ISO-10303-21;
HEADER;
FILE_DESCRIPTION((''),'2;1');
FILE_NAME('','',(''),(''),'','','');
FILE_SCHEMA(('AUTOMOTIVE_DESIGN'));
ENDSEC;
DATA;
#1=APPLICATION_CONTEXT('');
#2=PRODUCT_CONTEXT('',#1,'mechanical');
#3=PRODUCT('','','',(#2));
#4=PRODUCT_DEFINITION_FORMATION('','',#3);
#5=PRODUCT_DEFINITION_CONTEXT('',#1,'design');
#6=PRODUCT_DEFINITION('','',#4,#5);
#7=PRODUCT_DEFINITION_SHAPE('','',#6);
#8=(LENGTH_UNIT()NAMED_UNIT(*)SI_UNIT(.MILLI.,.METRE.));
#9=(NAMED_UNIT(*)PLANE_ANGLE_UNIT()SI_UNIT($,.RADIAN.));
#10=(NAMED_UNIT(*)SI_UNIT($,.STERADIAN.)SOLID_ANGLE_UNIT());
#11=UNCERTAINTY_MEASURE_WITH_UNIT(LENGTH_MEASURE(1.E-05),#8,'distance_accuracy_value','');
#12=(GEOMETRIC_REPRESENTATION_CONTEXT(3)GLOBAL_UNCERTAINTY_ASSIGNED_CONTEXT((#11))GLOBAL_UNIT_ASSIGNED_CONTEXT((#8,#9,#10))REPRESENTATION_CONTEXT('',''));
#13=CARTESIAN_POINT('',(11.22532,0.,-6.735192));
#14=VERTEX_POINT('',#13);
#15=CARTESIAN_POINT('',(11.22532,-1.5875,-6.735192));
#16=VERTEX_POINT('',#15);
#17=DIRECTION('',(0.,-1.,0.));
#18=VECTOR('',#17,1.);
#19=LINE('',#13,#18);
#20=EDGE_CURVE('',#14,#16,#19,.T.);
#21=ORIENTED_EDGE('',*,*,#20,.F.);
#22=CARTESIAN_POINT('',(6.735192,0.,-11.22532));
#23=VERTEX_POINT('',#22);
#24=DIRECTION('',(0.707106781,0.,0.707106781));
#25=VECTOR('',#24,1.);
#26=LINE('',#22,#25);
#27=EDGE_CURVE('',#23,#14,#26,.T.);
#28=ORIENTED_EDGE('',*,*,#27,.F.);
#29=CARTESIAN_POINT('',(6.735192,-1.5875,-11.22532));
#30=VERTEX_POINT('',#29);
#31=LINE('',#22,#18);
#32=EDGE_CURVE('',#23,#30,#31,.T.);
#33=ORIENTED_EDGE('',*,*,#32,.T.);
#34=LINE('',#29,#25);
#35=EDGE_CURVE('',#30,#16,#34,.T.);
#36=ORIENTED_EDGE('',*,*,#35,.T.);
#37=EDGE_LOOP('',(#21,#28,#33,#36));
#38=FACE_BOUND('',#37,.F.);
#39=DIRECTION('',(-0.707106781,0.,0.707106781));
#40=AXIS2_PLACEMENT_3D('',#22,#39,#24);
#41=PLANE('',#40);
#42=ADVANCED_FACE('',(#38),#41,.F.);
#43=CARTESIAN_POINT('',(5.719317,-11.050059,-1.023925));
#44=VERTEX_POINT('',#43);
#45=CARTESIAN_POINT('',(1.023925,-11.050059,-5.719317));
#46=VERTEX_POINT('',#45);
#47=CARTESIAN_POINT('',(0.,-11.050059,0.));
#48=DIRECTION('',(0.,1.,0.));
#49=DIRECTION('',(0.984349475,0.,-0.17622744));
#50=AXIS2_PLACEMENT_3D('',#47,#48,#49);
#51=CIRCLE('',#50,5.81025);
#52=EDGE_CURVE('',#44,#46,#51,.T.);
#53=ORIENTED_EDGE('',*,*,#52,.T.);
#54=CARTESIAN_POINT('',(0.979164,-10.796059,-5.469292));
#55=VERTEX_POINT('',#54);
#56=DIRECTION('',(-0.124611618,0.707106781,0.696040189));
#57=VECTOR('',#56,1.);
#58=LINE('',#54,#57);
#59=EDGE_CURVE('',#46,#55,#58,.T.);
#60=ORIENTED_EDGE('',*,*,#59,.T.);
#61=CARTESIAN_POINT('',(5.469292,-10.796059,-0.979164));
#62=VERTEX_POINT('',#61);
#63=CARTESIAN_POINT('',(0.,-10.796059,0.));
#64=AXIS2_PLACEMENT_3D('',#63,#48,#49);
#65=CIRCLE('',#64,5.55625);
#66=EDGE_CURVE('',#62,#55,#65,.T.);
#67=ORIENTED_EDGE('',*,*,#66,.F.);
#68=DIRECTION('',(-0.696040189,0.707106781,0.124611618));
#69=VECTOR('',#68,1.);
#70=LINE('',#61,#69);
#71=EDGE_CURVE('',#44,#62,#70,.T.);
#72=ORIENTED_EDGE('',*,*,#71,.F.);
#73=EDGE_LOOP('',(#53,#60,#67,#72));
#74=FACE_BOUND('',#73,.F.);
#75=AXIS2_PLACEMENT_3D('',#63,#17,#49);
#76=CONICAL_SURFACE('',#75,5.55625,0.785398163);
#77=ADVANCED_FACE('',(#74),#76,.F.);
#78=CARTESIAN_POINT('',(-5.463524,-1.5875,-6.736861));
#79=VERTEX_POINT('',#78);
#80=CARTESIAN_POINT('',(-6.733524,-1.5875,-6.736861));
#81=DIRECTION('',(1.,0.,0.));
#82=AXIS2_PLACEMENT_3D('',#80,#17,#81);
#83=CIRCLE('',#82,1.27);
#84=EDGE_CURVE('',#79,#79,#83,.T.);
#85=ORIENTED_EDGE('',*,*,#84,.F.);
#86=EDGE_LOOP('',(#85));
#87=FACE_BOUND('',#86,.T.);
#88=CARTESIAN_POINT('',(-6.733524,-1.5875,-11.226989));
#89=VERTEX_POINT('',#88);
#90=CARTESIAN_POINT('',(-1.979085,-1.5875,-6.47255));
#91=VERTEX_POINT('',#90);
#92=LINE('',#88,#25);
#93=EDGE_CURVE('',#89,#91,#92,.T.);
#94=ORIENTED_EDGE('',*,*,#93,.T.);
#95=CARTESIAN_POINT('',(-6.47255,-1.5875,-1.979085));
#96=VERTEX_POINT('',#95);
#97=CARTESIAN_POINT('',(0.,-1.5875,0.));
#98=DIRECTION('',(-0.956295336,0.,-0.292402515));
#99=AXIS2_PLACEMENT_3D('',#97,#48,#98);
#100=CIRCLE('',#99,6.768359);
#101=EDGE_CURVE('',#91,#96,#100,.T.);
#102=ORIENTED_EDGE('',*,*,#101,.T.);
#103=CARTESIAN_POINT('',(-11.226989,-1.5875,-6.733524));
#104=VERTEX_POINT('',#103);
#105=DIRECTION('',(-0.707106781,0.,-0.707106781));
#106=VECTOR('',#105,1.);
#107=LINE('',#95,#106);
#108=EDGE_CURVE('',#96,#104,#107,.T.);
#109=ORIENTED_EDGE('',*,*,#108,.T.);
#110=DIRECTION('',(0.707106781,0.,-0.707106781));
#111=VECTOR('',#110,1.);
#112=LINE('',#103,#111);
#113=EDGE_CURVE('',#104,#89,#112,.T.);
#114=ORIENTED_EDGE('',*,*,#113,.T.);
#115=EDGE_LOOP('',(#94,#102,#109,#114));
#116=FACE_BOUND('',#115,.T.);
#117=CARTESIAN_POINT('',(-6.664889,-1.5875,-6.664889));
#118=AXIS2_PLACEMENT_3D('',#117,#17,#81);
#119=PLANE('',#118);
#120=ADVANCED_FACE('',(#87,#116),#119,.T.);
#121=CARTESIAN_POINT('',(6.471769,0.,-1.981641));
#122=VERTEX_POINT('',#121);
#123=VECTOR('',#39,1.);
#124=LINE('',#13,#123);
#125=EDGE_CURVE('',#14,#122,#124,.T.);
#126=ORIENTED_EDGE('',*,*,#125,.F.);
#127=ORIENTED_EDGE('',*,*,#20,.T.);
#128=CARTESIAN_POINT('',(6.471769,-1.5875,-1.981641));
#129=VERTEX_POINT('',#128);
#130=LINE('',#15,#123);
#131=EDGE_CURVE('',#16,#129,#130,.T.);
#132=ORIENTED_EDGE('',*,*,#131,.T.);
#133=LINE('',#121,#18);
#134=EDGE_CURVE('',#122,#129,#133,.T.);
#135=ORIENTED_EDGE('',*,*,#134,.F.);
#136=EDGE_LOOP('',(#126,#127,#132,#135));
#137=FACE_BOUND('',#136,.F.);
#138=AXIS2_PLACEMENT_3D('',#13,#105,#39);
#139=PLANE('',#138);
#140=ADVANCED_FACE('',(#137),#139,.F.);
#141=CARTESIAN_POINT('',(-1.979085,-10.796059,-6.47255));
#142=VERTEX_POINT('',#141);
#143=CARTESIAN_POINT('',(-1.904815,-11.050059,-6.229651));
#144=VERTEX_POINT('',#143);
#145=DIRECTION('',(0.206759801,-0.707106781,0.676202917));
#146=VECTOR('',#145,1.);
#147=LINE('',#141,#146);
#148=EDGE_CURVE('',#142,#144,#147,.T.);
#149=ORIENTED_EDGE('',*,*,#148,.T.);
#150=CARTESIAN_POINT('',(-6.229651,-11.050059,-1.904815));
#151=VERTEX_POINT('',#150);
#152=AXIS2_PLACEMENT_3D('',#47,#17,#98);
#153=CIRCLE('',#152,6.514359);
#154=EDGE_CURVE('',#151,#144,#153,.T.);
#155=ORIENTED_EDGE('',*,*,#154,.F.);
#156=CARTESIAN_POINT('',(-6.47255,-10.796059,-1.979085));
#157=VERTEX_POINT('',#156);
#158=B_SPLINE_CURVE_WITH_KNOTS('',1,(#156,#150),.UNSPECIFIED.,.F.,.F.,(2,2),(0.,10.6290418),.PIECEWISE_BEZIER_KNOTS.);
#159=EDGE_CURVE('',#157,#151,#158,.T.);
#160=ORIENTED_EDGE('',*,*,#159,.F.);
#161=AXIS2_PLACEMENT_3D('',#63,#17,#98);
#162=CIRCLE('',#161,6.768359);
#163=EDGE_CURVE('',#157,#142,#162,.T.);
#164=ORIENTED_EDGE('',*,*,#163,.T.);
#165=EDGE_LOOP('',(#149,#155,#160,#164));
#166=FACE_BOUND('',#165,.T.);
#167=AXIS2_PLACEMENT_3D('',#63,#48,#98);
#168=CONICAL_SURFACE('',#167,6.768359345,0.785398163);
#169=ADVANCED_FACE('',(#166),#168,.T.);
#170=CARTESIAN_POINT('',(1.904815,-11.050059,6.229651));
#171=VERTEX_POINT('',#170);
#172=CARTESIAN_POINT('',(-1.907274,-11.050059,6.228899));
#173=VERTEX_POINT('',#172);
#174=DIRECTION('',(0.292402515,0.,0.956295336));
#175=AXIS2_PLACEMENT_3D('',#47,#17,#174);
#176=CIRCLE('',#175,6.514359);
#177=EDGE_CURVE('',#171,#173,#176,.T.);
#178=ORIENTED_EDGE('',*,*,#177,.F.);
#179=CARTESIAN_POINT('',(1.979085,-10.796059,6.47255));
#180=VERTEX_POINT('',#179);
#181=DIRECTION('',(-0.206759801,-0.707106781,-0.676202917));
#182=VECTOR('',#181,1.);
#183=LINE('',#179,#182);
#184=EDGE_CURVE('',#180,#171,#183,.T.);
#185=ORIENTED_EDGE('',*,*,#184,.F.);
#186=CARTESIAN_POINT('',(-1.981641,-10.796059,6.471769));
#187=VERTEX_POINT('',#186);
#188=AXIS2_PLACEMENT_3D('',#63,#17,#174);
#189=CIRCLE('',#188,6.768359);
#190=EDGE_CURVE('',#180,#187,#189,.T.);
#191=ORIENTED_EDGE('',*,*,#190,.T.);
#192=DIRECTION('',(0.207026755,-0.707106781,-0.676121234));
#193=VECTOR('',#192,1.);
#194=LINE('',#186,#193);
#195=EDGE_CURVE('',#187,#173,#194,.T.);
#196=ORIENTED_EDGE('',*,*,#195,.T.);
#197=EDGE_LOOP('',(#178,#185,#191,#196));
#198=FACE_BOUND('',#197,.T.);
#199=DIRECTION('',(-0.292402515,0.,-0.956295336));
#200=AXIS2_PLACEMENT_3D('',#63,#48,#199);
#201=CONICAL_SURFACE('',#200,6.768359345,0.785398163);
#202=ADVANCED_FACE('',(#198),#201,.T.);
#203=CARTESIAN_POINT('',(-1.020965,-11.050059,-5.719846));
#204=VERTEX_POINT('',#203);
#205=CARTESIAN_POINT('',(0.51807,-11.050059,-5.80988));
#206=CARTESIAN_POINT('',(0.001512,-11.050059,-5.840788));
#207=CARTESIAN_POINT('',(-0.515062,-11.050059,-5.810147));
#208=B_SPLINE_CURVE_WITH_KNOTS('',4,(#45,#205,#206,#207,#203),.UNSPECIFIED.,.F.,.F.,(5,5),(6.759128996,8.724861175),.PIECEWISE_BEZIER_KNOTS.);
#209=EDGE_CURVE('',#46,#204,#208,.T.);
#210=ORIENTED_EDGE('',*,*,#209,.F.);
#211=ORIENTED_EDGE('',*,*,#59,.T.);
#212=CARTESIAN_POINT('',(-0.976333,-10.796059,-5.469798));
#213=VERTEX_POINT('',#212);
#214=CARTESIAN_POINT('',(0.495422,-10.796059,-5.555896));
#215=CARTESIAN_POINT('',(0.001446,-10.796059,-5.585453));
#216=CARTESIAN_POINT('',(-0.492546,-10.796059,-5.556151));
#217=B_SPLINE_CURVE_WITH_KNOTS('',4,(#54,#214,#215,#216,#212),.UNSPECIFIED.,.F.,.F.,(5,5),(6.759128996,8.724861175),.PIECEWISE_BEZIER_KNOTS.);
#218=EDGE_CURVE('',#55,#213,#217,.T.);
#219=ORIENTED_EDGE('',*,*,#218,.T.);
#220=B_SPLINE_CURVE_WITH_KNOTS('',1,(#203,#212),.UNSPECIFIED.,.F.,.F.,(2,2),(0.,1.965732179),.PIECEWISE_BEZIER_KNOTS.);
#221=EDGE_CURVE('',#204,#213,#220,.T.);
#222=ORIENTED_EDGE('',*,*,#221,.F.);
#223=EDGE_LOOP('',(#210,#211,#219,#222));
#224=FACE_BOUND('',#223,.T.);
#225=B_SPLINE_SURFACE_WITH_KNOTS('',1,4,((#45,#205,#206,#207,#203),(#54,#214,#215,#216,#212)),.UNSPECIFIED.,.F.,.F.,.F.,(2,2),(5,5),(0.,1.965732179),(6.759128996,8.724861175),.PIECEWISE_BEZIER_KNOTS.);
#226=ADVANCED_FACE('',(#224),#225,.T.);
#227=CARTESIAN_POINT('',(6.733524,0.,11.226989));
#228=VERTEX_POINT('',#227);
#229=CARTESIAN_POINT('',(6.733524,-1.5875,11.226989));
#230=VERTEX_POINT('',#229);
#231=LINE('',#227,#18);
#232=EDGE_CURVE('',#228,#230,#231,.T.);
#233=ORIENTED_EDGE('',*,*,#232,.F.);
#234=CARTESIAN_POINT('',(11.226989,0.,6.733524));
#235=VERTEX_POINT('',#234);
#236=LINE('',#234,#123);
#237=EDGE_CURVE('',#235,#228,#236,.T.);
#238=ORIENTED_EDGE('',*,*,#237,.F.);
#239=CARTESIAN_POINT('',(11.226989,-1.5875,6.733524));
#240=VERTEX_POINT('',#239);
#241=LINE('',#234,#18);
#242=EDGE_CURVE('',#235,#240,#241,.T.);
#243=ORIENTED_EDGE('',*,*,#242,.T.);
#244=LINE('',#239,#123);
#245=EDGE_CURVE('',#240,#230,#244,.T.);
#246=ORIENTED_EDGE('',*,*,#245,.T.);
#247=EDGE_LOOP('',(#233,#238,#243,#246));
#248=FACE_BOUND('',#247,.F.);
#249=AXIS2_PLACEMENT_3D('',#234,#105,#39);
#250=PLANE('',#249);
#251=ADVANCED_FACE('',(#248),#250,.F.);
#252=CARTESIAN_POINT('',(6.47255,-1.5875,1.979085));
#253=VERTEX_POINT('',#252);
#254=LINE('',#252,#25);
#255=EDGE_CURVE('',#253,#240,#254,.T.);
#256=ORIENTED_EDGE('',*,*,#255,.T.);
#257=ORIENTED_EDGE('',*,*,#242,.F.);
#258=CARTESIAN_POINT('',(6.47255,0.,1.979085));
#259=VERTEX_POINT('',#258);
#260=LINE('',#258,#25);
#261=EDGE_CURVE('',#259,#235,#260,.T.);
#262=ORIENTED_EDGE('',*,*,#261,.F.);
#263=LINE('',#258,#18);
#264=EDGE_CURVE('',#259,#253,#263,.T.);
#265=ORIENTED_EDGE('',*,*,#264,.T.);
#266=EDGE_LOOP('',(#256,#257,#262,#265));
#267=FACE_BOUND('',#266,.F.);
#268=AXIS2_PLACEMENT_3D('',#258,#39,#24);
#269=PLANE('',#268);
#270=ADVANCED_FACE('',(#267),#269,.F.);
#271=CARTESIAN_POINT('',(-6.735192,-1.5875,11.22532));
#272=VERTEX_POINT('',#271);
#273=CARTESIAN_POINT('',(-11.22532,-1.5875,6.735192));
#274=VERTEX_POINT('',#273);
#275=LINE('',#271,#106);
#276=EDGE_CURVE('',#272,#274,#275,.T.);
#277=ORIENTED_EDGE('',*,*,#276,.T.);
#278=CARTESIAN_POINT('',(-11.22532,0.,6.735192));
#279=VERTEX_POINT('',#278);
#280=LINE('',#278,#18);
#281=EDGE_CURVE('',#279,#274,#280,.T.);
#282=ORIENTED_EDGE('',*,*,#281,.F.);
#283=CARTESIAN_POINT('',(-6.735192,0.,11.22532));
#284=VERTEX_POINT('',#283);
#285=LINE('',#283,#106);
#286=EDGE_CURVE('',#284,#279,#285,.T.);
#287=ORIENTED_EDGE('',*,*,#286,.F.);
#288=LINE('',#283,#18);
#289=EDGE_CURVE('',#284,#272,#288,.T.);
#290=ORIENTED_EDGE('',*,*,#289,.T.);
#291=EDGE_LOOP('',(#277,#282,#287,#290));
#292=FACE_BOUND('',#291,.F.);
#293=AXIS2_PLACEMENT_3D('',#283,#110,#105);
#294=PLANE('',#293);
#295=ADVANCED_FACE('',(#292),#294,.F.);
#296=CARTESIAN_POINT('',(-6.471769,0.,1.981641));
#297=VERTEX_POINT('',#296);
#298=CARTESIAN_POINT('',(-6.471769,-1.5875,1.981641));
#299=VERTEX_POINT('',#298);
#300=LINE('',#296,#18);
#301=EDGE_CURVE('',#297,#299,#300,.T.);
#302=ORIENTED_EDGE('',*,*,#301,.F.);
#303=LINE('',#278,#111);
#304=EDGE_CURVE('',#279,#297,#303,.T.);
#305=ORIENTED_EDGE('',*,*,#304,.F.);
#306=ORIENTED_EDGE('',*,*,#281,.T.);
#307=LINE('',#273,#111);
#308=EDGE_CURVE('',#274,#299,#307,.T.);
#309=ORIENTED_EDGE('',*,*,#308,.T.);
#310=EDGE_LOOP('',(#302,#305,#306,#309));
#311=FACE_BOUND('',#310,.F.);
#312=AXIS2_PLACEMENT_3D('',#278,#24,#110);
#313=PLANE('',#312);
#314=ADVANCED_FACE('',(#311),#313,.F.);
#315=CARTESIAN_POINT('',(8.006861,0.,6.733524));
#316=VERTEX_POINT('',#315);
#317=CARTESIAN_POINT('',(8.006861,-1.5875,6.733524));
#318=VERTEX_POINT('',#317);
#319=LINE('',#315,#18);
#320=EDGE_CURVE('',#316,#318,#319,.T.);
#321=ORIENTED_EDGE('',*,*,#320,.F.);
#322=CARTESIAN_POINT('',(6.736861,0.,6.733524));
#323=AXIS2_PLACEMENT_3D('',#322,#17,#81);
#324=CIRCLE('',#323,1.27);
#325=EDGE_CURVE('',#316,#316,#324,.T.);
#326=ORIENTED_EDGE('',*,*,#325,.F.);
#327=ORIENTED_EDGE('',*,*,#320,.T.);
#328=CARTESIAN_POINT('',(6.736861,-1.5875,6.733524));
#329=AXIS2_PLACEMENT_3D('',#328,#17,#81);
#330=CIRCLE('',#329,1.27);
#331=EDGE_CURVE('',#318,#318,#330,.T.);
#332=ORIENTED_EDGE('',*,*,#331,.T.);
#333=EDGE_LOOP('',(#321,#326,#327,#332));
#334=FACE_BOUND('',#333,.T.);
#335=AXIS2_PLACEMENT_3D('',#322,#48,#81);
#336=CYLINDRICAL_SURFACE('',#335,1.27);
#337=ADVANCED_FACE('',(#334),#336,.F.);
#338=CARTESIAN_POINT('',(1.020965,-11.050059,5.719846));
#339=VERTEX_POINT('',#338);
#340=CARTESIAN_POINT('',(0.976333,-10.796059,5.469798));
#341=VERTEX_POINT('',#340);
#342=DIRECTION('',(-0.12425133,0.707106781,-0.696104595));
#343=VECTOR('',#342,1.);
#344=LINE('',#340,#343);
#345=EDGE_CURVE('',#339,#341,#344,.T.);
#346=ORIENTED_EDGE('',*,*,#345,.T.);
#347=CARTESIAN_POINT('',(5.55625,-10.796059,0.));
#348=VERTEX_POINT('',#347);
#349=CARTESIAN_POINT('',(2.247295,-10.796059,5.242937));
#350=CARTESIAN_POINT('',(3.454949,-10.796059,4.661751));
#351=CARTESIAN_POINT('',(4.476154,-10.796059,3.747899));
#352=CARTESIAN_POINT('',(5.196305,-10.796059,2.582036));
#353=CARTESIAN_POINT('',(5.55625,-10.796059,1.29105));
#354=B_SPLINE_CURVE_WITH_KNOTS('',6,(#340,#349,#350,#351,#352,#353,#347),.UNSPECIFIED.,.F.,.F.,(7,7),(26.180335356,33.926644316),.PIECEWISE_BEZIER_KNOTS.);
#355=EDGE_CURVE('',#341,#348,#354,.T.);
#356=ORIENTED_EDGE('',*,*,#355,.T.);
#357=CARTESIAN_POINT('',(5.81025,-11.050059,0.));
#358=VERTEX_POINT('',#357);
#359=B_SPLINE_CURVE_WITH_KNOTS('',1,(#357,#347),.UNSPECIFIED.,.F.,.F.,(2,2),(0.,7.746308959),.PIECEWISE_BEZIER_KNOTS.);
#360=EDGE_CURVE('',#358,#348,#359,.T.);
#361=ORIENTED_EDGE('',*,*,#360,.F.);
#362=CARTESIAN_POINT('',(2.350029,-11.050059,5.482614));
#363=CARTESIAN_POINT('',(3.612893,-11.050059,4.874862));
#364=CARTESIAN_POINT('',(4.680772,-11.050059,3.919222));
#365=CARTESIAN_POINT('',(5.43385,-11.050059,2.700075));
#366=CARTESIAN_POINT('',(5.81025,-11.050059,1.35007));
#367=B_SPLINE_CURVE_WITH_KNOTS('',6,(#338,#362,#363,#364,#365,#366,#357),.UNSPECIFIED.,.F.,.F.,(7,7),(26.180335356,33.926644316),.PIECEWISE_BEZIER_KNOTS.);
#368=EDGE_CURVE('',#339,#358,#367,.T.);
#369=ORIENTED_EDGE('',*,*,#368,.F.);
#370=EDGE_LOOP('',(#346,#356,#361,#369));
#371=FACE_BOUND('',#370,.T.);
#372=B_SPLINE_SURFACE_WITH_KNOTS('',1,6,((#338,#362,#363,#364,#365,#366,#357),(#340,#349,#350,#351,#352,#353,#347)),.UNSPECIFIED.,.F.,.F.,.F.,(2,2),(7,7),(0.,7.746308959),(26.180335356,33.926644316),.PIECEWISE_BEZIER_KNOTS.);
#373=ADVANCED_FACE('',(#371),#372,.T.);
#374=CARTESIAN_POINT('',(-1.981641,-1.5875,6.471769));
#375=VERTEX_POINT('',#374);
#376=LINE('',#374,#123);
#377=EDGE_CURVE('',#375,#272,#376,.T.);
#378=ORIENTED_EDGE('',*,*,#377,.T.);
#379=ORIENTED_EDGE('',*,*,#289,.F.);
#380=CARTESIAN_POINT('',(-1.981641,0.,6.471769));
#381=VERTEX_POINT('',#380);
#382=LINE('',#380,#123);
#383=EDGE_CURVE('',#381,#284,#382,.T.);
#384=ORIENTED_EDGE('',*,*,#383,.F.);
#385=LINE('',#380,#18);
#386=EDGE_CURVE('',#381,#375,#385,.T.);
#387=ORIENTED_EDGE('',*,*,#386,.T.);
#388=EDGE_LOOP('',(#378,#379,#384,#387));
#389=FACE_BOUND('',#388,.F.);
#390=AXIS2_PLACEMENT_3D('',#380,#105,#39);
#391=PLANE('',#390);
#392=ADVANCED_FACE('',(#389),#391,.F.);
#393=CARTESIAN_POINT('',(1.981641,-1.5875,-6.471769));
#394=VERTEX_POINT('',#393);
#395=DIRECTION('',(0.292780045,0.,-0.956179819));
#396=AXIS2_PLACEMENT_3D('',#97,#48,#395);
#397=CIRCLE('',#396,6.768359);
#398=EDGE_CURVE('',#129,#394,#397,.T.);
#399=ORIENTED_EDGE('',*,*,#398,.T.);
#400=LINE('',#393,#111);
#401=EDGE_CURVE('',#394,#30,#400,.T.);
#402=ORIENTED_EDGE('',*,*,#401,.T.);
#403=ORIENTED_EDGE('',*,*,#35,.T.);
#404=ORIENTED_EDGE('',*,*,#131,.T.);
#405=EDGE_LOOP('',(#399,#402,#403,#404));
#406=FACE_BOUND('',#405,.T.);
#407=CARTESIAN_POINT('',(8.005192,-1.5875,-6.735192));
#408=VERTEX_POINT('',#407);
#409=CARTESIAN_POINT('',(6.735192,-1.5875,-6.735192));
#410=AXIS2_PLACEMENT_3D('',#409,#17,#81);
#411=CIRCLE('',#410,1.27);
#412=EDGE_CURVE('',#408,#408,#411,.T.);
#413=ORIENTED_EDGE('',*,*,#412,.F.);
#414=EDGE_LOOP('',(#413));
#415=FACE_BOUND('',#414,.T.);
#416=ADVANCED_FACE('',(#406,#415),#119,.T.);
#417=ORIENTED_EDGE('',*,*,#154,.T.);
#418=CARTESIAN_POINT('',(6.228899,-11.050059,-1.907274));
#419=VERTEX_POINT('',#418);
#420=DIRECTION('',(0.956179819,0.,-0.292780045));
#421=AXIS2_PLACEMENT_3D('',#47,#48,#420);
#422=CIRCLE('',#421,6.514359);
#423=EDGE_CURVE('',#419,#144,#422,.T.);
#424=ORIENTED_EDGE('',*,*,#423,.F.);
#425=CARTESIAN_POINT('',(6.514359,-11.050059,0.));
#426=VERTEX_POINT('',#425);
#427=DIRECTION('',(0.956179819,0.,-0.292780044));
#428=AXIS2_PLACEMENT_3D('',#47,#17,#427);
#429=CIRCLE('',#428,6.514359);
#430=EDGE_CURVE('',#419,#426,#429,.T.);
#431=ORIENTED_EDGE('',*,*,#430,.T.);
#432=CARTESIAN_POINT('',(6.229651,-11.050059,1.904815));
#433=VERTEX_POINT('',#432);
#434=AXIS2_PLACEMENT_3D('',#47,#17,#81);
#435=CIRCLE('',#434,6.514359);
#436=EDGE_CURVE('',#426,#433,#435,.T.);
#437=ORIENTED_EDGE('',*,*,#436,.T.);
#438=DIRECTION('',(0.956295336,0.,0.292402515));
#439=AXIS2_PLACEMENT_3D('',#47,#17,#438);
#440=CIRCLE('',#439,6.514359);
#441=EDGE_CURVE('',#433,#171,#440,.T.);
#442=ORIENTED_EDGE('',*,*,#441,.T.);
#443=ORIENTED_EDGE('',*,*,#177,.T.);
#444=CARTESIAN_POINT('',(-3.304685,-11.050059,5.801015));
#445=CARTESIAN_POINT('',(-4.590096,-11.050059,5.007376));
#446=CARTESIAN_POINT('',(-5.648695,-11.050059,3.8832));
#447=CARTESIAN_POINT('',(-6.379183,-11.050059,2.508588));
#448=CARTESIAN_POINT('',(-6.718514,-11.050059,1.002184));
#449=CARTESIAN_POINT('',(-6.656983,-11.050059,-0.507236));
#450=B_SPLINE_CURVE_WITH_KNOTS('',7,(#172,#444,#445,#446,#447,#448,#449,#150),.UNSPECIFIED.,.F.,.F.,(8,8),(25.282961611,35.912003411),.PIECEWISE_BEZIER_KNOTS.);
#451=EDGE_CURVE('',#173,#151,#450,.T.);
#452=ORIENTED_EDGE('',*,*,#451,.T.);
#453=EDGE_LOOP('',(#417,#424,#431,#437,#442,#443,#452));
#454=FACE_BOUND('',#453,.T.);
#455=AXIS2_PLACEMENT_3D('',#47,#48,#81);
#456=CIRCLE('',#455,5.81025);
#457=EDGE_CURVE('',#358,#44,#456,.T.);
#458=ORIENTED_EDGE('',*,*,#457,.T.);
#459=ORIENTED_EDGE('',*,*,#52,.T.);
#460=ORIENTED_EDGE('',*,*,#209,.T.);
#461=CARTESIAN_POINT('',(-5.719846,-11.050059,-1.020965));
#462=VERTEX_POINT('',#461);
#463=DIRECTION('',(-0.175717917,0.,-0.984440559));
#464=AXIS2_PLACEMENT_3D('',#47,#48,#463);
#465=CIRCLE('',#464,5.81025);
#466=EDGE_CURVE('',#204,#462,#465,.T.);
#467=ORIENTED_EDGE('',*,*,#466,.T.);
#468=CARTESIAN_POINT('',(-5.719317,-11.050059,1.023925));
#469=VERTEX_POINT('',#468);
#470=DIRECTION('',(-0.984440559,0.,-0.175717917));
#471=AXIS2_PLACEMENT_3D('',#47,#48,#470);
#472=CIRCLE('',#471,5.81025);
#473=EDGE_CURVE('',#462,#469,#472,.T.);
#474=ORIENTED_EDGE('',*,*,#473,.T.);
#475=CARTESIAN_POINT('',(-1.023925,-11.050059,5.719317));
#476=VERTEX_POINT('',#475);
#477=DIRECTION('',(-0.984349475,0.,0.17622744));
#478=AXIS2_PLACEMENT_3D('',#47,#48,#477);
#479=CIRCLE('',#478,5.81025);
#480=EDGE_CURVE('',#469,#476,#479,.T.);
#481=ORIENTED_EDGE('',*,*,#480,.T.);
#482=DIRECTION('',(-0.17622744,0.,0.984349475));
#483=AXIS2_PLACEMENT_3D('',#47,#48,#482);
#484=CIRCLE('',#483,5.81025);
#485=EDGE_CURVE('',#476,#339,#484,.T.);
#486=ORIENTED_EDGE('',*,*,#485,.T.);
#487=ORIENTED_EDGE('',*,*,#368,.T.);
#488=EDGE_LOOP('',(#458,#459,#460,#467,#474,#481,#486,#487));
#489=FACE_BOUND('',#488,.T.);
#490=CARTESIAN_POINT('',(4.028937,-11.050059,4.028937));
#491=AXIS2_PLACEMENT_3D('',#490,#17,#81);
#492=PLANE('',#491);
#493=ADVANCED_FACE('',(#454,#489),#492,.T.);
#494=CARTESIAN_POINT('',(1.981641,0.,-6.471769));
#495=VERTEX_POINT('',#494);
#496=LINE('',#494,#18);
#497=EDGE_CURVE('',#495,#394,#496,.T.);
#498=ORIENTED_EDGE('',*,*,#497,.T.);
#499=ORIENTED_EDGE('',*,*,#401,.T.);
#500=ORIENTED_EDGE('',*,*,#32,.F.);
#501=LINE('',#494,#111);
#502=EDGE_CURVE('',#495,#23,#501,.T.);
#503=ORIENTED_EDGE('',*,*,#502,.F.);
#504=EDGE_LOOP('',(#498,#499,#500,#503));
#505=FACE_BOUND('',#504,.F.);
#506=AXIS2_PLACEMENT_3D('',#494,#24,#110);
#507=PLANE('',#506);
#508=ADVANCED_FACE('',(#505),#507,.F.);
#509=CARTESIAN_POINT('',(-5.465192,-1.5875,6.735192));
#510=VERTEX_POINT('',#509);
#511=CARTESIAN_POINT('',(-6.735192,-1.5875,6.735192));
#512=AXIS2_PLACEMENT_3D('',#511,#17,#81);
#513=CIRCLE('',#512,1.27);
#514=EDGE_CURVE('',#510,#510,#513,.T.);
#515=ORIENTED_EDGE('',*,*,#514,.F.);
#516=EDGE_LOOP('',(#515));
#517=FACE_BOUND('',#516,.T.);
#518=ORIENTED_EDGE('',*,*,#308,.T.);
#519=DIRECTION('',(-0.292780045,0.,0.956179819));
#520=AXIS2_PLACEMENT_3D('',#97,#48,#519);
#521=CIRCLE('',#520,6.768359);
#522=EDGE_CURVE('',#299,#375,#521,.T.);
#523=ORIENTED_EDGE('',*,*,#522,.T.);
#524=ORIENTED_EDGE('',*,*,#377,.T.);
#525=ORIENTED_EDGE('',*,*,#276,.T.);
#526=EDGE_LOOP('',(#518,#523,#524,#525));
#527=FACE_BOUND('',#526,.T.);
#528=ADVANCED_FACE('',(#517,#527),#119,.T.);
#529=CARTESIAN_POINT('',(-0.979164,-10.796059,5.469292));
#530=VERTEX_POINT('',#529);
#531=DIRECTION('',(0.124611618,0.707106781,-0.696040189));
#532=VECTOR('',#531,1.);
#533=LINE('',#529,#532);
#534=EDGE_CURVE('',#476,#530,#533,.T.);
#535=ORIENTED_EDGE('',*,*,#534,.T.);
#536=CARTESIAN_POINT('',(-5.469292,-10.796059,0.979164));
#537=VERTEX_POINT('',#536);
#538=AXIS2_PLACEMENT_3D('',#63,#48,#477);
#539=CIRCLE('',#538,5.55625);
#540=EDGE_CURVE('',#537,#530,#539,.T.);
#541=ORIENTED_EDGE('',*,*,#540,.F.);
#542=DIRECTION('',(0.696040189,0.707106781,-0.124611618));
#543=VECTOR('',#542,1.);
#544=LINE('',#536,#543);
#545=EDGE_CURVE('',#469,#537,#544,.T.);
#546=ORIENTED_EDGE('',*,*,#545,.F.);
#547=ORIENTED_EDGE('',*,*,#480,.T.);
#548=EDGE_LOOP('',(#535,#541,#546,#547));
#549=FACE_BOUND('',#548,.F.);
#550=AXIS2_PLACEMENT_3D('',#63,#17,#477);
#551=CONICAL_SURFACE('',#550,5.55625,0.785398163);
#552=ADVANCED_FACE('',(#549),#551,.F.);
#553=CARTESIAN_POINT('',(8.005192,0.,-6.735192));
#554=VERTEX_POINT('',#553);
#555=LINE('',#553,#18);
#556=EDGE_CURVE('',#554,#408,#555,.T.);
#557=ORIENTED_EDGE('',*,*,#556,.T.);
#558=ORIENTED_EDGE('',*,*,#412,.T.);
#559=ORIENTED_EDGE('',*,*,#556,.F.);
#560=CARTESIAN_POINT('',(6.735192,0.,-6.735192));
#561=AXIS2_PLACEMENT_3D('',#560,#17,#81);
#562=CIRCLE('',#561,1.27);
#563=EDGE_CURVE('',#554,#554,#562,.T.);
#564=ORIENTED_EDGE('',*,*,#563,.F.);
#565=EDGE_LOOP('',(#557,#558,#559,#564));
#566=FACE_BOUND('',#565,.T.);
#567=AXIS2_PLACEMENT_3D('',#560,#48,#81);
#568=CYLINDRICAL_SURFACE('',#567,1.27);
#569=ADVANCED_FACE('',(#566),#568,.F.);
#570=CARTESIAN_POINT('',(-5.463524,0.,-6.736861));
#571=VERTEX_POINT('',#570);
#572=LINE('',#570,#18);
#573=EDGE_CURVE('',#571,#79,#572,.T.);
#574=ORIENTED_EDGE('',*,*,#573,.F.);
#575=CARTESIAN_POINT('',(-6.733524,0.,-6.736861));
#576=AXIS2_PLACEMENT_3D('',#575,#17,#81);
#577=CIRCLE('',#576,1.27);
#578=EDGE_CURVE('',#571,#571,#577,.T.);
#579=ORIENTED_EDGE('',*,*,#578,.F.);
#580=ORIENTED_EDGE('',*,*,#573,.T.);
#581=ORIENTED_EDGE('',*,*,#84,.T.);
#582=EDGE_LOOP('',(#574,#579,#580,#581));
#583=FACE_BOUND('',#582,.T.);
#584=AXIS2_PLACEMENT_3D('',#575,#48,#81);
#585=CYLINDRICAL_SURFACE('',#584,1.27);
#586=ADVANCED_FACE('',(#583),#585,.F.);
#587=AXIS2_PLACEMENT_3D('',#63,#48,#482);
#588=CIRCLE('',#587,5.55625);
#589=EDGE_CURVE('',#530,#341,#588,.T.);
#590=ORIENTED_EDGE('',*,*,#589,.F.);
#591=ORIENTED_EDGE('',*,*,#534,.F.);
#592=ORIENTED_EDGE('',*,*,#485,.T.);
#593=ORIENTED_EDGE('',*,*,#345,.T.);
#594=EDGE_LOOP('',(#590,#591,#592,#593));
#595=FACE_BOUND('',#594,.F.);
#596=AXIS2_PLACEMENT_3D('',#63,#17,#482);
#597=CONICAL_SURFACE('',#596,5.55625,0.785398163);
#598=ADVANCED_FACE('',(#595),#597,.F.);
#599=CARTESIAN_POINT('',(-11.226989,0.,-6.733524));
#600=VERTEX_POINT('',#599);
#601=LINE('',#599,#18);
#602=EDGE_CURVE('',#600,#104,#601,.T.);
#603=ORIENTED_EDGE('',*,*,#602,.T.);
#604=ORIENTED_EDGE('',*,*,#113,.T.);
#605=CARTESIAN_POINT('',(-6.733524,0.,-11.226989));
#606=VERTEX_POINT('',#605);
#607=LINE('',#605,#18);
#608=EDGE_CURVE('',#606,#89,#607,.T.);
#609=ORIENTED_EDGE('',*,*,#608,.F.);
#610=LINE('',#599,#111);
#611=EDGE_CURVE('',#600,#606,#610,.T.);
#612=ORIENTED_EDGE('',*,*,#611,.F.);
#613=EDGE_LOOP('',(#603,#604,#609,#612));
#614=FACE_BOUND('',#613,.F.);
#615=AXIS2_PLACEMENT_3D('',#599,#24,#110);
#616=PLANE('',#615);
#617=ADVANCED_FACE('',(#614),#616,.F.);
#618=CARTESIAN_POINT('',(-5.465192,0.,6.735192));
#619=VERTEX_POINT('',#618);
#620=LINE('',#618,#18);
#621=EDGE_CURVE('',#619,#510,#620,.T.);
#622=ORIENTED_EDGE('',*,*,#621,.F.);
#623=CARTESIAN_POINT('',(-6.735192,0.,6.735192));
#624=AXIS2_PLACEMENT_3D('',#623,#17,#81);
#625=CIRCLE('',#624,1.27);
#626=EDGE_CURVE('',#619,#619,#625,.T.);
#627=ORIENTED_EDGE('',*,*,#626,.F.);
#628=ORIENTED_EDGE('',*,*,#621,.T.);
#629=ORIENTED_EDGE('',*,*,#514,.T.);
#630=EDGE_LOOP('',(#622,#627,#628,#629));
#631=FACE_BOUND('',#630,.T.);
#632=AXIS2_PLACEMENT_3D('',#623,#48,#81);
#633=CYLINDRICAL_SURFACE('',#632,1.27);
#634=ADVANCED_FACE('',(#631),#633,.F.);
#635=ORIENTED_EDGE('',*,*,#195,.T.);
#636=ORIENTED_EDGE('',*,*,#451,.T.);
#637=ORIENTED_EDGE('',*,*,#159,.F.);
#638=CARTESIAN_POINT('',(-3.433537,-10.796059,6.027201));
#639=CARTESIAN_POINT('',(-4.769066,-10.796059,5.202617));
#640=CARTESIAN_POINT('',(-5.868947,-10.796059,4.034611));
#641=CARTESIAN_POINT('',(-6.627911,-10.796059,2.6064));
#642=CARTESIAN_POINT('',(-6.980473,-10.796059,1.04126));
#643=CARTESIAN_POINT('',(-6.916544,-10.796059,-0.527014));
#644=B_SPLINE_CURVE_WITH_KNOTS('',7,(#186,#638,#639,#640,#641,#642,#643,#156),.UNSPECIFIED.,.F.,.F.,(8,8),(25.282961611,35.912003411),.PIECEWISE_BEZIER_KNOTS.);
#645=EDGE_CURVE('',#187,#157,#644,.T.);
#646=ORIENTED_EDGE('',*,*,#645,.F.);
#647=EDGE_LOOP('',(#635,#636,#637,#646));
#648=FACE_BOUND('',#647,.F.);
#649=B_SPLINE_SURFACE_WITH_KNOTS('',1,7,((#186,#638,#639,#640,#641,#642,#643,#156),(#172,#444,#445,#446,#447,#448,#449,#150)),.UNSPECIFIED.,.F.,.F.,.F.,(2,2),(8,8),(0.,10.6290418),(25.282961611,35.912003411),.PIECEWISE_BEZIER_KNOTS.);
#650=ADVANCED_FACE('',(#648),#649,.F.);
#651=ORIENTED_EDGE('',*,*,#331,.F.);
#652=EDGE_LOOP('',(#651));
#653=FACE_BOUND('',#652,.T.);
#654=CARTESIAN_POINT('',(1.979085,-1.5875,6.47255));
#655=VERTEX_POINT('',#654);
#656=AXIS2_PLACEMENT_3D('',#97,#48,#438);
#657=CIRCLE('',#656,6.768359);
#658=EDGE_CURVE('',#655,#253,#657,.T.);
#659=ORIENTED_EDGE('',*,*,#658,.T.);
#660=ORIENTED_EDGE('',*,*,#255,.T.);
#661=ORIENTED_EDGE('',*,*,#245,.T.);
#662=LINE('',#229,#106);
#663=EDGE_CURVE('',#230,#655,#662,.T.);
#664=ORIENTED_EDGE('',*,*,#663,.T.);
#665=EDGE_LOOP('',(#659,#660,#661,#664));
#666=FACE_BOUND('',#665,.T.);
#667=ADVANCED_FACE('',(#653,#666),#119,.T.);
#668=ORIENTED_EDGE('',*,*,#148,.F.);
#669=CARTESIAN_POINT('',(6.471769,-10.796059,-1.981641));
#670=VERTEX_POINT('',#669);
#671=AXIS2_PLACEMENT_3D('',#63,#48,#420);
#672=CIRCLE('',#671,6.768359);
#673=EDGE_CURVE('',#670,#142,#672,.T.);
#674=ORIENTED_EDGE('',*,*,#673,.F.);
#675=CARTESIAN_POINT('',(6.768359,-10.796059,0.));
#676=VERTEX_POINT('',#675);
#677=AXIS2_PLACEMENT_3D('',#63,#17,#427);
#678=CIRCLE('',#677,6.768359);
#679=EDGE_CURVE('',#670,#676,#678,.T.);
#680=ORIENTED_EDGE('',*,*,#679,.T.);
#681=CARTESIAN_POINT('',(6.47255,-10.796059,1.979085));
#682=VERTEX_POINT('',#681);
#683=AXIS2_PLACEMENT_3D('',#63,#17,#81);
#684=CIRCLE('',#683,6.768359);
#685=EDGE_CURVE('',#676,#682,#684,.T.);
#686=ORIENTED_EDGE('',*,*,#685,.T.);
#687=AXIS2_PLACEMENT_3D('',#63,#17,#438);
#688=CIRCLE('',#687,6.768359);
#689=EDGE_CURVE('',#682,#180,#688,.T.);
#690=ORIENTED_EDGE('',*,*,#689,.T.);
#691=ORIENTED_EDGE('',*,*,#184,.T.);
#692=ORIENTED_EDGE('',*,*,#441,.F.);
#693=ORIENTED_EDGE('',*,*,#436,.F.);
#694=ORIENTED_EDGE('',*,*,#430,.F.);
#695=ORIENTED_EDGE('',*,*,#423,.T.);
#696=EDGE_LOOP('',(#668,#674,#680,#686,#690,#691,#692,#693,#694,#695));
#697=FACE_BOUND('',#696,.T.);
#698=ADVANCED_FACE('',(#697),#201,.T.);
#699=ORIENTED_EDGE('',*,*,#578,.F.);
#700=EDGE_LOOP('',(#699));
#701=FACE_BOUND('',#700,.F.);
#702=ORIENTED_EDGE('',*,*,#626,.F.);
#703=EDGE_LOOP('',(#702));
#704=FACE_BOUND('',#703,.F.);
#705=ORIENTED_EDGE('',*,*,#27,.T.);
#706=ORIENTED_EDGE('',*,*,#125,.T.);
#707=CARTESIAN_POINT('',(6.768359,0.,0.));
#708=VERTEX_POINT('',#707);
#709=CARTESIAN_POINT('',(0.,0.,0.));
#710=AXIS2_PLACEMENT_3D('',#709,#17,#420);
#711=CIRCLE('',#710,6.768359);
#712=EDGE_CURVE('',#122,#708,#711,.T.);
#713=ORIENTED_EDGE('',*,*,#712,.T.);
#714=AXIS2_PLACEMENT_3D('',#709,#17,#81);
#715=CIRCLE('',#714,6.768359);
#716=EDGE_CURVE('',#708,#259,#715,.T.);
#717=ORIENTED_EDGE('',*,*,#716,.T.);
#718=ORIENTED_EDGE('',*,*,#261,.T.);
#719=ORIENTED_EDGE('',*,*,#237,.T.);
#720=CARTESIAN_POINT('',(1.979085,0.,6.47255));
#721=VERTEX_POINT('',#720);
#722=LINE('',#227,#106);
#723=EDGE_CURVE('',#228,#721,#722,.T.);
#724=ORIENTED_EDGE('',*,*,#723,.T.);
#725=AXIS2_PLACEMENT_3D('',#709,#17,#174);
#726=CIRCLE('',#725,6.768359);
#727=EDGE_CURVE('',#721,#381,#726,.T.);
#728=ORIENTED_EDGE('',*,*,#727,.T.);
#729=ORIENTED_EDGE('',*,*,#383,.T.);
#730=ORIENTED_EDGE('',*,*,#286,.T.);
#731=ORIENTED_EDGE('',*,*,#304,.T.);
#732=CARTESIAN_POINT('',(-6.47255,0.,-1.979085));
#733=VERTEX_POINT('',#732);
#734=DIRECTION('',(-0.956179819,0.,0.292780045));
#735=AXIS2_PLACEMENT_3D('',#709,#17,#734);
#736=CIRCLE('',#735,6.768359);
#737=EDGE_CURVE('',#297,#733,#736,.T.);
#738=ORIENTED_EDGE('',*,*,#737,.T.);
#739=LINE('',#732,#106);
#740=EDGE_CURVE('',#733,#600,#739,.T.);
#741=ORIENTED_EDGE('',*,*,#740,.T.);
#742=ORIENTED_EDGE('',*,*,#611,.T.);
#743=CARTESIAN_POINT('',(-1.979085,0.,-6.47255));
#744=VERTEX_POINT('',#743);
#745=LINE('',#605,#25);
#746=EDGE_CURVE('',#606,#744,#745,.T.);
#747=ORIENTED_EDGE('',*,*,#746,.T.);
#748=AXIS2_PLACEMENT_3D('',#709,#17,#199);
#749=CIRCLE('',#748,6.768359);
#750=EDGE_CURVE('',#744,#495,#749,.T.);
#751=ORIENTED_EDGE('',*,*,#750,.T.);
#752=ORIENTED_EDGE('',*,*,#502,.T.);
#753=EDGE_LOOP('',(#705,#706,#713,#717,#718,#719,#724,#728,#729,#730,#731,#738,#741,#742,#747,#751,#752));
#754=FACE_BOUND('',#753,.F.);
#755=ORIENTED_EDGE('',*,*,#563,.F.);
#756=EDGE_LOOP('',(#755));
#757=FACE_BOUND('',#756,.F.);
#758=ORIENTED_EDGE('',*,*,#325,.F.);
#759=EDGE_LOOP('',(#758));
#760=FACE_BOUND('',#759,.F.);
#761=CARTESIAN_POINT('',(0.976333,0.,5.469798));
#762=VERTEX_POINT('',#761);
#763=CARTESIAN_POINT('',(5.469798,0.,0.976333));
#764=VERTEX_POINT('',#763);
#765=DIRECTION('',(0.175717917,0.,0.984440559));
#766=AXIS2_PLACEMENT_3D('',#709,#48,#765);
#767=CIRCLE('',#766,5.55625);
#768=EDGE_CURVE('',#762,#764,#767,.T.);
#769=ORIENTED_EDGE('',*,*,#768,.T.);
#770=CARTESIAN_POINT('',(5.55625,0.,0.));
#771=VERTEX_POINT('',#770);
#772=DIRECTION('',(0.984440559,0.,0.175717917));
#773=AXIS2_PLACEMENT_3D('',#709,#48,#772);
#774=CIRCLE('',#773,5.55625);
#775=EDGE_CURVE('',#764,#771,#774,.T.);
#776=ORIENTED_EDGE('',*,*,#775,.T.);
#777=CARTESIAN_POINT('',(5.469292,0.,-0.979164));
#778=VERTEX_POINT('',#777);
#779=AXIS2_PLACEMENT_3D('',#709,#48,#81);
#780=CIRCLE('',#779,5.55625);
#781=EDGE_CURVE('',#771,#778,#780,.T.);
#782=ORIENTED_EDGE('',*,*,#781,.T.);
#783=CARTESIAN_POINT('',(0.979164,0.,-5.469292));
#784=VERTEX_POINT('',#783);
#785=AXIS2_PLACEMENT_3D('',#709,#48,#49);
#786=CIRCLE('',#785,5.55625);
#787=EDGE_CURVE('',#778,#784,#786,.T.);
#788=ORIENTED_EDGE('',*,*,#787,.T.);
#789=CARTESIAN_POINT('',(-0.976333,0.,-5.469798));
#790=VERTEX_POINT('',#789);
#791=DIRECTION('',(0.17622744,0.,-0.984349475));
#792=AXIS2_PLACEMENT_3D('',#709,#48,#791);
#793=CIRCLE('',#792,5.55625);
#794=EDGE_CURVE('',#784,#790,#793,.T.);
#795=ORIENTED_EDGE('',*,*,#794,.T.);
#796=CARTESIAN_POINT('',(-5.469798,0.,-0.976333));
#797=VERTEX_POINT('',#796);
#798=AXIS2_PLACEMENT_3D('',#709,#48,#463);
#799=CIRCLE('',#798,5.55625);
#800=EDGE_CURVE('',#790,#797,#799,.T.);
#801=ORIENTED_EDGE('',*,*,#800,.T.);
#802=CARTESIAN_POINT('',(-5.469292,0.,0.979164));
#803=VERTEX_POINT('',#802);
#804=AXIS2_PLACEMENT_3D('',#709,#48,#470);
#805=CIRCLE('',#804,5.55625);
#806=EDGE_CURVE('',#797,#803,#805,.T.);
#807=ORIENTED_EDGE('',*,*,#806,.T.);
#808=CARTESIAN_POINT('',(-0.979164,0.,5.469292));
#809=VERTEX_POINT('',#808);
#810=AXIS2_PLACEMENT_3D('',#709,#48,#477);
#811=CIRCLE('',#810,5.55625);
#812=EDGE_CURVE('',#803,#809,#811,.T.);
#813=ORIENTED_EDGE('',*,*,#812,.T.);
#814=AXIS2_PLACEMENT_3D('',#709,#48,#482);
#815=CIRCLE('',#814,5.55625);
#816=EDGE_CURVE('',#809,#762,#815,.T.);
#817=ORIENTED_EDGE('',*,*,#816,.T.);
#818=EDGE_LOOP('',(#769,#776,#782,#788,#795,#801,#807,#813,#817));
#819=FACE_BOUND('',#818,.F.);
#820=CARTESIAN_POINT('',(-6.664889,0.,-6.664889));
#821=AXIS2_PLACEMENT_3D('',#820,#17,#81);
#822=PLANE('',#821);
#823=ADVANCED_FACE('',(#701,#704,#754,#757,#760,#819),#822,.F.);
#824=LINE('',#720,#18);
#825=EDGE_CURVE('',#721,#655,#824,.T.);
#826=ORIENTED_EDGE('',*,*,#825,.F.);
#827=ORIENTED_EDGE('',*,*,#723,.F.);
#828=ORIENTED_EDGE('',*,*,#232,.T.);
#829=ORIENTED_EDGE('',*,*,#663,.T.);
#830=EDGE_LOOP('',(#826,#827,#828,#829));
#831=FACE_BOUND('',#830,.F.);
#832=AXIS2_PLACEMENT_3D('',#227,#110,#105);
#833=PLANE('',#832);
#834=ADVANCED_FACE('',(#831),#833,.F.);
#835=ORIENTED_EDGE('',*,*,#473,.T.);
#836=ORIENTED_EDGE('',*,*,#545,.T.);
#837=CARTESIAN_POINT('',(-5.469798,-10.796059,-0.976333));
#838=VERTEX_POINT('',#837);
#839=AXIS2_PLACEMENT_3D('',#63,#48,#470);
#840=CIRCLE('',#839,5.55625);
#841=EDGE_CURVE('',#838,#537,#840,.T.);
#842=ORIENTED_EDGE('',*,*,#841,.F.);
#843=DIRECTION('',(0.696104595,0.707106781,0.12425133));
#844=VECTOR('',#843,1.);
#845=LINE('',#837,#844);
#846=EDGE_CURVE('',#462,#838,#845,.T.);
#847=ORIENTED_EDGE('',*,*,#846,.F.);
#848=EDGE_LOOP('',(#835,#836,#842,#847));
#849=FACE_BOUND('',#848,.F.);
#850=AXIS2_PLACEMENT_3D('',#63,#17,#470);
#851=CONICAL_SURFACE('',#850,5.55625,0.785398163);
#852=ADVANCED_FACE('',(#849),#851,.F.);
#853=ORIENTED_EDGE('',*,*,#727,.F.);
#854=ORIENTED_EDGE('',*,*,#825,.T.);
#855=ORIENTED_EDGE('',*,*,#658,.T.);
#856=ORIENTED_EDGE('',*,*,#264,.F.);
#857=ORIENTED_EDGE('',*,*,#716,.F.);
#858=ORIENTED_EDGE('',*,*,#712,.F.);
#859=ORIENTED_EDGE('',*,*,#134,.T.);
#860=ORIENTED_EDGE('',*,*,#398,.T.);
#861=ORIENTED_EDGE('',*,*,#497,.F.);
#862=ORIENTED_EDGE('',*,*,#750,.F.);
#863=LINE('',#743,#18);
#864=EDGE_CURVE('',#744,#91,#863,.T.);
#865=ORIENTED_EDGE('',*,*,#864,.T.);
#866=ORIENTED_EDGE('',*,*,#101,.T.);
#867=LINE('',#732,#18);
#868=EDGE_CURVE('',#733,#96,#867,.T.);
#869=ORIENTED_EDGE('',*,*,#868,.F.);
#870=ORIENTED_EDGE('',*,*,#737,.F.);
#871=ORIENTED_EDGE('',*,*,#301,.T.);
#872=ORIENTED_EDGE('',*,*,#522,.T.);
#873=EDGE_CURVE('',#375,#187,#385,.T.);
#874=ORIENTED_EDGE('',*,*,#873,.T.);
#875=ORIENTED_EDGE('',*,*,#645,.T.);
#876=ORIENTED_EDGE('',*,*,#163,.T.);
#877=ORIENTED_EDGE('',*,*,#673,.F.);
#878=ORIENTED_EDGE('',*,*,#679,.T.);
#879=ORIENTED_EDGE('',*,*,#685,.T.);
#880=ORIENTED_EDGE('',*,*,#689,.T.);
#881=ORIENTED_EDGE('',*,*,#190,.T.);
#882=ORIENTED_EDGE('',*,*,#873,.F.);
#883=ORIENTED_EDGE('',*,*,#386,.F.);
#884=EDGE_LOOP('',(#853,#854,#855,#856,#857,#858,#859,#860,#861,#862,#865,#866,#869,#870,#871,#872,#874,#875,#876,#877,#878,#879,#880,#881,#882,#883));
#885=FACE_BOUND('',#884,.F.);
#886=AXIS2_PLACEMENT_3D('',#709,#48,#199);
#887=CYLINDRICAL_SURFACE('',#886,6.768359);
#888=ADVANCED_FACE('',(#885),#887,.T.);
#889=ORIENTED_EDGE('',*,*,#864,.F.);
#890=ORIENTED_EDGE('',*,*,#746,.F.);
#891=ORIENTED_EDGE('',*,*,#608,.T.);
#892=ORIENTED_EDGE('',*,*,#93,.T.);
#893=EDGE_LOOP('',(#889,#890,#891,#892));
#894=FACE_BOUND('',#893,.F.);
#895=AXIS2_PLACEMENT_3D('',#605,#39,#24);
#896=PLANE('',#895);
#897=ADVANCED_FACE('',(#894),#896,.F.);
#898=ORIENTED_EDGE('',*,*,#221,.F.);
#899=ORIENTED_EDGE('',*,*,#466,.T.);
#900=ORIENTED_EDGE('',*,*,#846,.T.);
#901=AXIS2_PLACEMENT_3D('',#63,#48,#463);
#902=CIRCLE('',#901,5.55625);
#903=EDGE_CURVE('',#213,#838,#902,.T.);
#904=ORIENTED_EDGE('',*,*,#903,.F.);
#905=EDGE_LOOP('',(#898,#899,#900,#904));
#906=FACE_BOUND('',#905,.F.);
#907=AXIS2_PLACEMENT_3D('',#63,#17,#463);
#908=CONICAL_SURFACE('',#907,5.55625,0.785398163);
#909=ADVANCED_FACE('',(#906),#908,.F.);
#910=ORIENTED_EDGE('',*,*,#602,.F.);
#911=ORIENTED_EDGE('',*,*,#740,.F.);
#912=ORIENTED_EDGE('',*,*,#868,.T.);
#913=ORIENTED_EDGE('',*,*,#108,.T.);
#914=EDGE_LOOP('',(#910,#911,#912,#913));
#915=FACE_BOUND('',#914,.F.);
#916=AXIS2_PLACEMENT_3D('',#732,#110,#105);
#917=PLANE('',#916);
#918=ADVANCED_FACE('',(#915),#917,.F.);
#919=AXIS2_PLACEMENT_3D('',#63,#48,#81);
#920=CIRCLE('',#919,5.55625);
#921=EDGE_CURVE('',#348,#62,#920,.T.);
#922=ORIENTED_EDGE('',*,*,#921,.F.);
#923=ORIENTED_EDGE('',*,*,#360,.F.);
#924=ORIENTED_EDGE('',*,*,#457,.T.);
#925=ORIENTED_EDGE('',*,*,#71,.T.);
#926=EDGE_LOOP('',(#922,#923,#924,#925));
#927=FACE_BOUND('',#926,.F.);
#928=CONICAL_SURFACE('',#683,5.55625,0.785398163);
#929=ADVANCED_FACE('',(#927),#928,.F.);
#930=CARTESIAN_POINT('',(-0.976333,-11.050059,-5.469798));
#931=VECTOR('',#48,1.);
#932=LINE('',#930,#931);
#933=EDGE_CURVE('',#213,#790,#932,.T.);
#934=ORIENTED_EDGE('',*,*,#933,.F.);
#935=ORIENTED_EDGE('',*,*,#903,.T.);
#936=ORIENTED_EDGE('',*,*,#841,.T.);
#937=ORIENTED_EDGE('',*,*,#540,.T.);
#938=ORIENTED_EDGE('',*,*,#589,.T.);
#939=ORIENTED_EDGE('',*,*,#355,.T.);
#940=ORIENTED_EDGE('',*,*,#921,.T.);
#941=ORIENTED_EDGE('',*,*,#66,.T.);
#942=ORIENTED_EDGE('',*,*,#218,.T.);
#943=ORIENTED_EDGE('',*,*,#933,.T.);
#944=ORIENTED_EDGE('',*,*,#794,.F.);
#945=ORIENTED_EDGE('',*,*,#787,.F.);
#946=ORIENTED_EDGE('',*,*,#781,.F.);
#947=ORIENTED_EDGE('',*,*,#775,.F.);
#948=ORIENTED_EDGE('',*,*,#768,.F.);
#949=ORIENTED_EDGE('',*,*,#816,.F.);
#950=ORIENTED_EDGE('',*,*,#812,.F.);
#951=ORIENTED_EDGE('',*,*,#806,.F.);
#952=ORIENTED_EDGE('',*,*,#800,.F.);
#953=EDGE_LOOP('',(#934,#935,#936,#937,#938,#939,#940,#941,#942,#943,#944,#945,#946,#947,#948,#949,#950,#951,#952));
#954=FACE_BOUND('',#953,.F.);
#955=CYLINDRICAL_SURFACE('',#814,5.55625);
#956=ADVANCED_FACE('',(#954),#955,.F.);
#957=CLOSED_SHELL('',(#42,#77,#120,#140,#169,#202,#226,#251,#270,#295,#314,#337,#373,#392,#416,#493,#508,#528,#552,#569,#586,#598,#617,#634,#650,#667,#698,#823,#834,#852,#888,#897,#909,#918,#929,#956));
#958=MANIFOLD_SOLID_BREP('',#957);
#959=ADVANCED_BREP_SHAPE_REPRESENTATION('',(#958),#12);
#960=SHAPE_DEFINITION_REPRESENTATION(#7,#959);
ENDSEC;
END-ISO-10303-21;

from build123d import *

# Parameters (mm, degrees)
F0_R     = 1.27
F1_DEPTH = 1.5875
F2_DEPTH = 11.0500585288
F3_SIZE  = 0.254


with BuildPart() as f1:
    # F0 (on Front) → F1 (new body)
    with BuildSketch(Plane.XZ):
        with BuildLine():
            Line((-6.7335235308, -11.2269887114), (-1.9790852934, -6.4725504739))
            ThreePointArc((-1.9790852934, -6.4725504739), (-4.785952791, -4.785952791), (-6.4725504739, -1.9790852934))
            Line((-6.4725504739, -1.9790852934), (-11.2269887114, -6.7335235308))
            Line((-11.2269887114, -6.7335235308), (-6.7335235308, -11.2269887114))
        make_face()
        with Locations((-6.7335235308, -6.7368606508)):
            Circle(F0_R, mode=Mode.SUBTRACT)
        with BuildLine():
            Line((6.7351920908, -11.2253201513), (11.2253201513, -6.7351920908))
            Line((11.2253201513, -6.7351920908), (6.4717686116, -1.9816405511))
            ThreePointArc((6.4717686116, -1.9816405511), (4.785952791, -4.785952791), (1.9816405511, -6.4717686116))
            Line((1.9816405511, -6.4717686116), (6.7351920908, -11.2253201513))
        make_face()
        with Locations((6.7351920908, -6.7351920908)):
            Circle(F0_R, mode=Mode.SUBTRACT)
        with BuildLine():
            Line((-11.2253201513, 6.7351920908), (-6.4717686116, 1.9816405511))
            ThreePointArc((-6.4717686116, 1.9816405511), (-4.785952791, 4.785952791), (-1.9816405511, 6.4717686116))
            Line((-1.9816405511, 6.4717686116), (-6.7351920908, 11.2253201513))
            Line((-6.7351920908, 11.2253201513), (-11.2253201513, 6.7351920908))
        make_face()
        with Locations((-6.7351920908, 6.7351920908)):
            Circle(F0_R, mode=Mode.SUBTRACT)
        with BuildLine():
            ThreePointArc((1.9790852934, 6.4725504739), (4.785952791, 4.785952791), (6.4725504739, 1.9790852934))
            Line((6.4725504739, 1.9790852934), (11.2269887114, 6.7335235308))
            Line((11.2269887114, 6.7335235308), (6.7335235308, 11.2269887114))
            Line((6.7335235308, 11.2269887114), (1.9790852934, 6.4725504739))
        make_face()
        with Locations((6.7368606508, 6.7335235308)):
            Circle(F0_R, mode=Mode.SUBTRACT)
        with BuildLine():
            ThreePointArc((-1.9790852934, -6.4725504739), (0.0013360998, -6.7683592141), (1.9816405511, -6.4717686116))
            Line((1.9816405511, -6.4717686116), (0.9791637116, -5.4692917721))
            ThreePointArc((0.9791637116, -5.4692917721), (0.001437958, -5.5562498139), (-0.9763326742, -5.4697978547))
            Line((-0.9763326742, -5.4697978547), (-1.9790852934, -6.4725504739))
        make_face()
        with BuildLine():
            ThreePointArc((1.9816405511, -6.4717686116), (4.785952791, -4.785952791), (6.4717686116, -1.9816405511))
            Line((6.4717686116, -1.9816405511), (5.4692917721, -0.9791637116))
            ThreePointArc((5.4692917721, -0.9791637116), (3.928862053, -3.928862053), (0.9791637116, -5.4692917721))
            Line((0.9791637116, -5.4692917721), (1.9816405511, -6.4717686116))
        make_face()
        with BuildLine():
            ThreePointArc((-6.4725504739, -1.9790852934), (-4.785952791, -4.785952791), (-1.9790852934, -6.4725504739))
            Line((-1.9790852934, -6.4725504739), (-0.9763326742, -5.4697978547))
            ThreePointArc((-0.9763326742, -5.4697978547), (-3.928862053, -3.928862053), (-5.4697978547, -0.9763326742))
            Line((-5.4697978547, -0.9763326742), (-6.4725504739, -1.9790852934))
        make_face()
        with BuildLine():
            Line((5.4692917721, -0.9791637116), (6.4717686116, -1.9816405511))
            ThreePointArc((6.4717686116, -1.9816405511), (6.6938010055, -1.001856444), (6.7683593459, 0))
            ThreePointArc((6.7683593459, 0), (6.6939986454, 1.0005350428), (6.4725504739, 1.9790852934))
            Line((6.4725504739, 1.9790852934), (5.4697978547, 0.9763326742))
            ThreePointArc((5.4697978547, 0.9763326742), (5.5345947635, 0.4900763879), (5.55625, 0))
            ThreePointArc((5.55625, 0), (5.5344677464, -0.4915087251), (5.4692917721, -0.9791637116))
        make_face()
        with BuildLine():
            Line((5.4697978547, 0.9763326742), (6.4725504739, 1.9790852934))
            ThreePointArc((6.4725504739, 1.9790852934), (4.785952791, 4.785952791), (1.9790852934, 6.4725504739))
            Line((1.9790852934, 6.4725504739), (0.9763326742, 5.4697978547))
            ThreePointArc((0.9763326742, 5.4697978547), (3.928862053, 3.928862053), (5.4697978547, 0.9763326742))
        make_face()
        with BuildLine():
            Line((0.9763326742, 5.4697978547), (1.9790852934, 6.4725504739))
            ThreePointArc((1.9790852934, 6.4725504739), (-0.0013360998, 6.7683592141), (-1.9816405511, 6.4717686116))
            Line((-1.9816405511, 6.4717686116), (-0.9791637116, 5.4692917721))
            ThreePointArc((-0.9791637116, 5.4692917721), (-0.001437958, 5.5562498139), (0.9763326742, 5.4697978547))
        make_face()
        with BuildLine():
            ThreePointArc((-6.4717686116, 1.9816405511), (-6.7683592141, 0.0013360998), (-6.4725504739, -1.9790852934))
            Line((-6.4725504739, -1.9790852934), (-5.4697978547, -0.9763326742))
            ThreePointArc((-5.4697978547, -0.9763326742), (-5.5562498139, 0.001437958), (-5.4692917721, 0.9791637116))
            Line((-5.4692917721, 0.9791637116), (-6.4717686116, 1.9816405511))
        make_face()
        with BuildLine():
            ThreePointArc((-5.4692917721, 0.9791637116), (-3.928862053, 3.928862053), (-0.9791637116, 5.4692917721))
            Line((-0.9791637116, 5.4692917721), (-1.9816405511, 6.4717686116))
            ThreePointArc((-1.9816405511, 6.4717686116), (-4.785952791, 4.785952791), (-6.4717686116, 1.9816405511))
            Line((-6.4717686116, 1.9816405511), (-5.4692917721, 0.9791637116))
        make_face()
    extrude(amount=F1_DEPTH)

    # F0 (on Front) → F2 (join)
    with BuildSketch(Plane.XZ):
        with BuildLine():
            Line((5.4697978547, 0.9763326742), (6.4725504739, 1.9790852934))
            ThreePointArc((6.4725504739, 1.9790852934), (4.785952791, 4.785952791), (1.9790852934, 6.4725504739))
            Line((1.9790852934, 6.4725504739), (0.9763326742, 5.4697978547))
            ThreePointArc((0.9763326742, 5.4697978547), (3.928862053, 3.928862053), (5.4697978547, 0.9763326742))
        make_face()
        with BuildLine():
            Line((5.4692917721, -0.9791637116), (6.4717686116, -1.9816405511))
            ThreePointArc((6.4717686116, -1.9816405511), (6.6938010055, -1.001856444), (6.7683593459, 0))
            ThreePointArc((6.7683593459, 0), (6.6939986454, 1.0005350428), (6.4725504739, 1.9790852934))
            Line((6.4725504739, 1.9790852934), (5.4697978547, 0.9763326742))
            ThreePointArc((5.4697978547, 0.9763326742), (5.5345947635, 0.4900763879), (5.55625, 0))
            ThreePointArc((5.55625, 0), (5.5344677464, -0.4915087251), (5.4692917721, -0.9791637116))
        make_face()
        with BuildLine():
            ThreePointArc((1.9816405511, -6.4717686116), (4.785952791, -4.785952791), (6.4717686116, -1.9816405511))
            Line((6.4717686116, -1.9816405511), (5.4692917721, -0.9791637116))
            ThreePointArc((5.4692917721, -0.9791637116), (3.928862053, -3.928862053), (0.9791637116, -5.4692917721))
            Line((0.9791637116, -5.4692917721), (1.9816405511, -6.4717686116))
        make_face()
        with BuildLine():
            ThreePointArc((-1.9790852934, -6.4725504739), (0.0013360998, -6.7683592141), (1.9816405511, -6.4717686116))
            Line((1.9816405511, -6.4717686116), (0.9791637116, -5.4692917721))
            ThreePointArc((0.9791637116, -5.4692917721), (0.001437958, -5.5562498139), (-0.9763326742, -5.4697978547))
            Line((-0.9763326742, -5.4697978547), (-1.9790852934, -6.4725504739))
        make_face()
        with BuildLine():
            ThreePointArc((-6.4725504739, -1.9790852934), (-4.785952791, -4.785952791), (-1.9790852934, -6.4725504739))
            Line((-1.9790852934, -6.4725504739), (-0.9763326742, -5.4697978547))
            ThreePointArc((-0.9763326742, -5.4697978547), (-3.928862053, -3.928862053), (-5.4697978547, -0.9763326742))
            Line((-5.4697978547, -0.9763326742), (-6.4725504739, -1.9790852934))
        make_face()
        with BuildLine():
            ThreePointArc((-6.4717686116, 1.9816405511), (-6.7683592141, 0.0013360998), (-6.4725504739, -1.9790852934))
            Line((-6.4725504739, -1.9790852934), (-5.4697978547, -0.9763326742))
            ThreePointArc((-5.4697978547, -0.9763326742), (-5.5562498139, 0.001437958), (-5.4692917721, 0.9791637116))
            Line((-5.4692917721, 0.9791637116), (-6.4717686116, 1.9816405511))
        make_face()
        with BuildLine():
            ThreePointArc((-5.4692917721, 0.9791637116), (-3.928862053, 3.928862053), (-0.9791637116, 5.4692917721))
            Line((-0.9791637116, 5.4692917721), (-1.9816405511, 6.4717686116))
            ThreePointArc((-1.9816405511, 6.4717686116), (-4.785952791, 4.785952791), (-6.4717686116, 1.9816405511))
            Line((-6.4717686116, 1.9816405511), (-5.4692917721, 0.9791637116))
        make_face()
        with BuildLine():
            Line((0.9763326742, 5.4697978547), (1.9790852934, 6.4725504739))
            ThreePointArc((1.9790852934, 6.4725504739), (-0.0013360998, 6.7683592141), (-1.9816405511, 6.4717686116))
            Line((-1.9816405511, 6.4717686116), (-0.9791637116, 5.4692917721))
            ThreePointArc((-0.9791637116, 5.4692917721), (-0.001437958, 5.5562498139), (0.9763326742, 5.4697978547))
        make_face()
    extrude(amount=F2_DEPTH)

    # F3
    f3_edges = [f1.edges().sort_by_distance(p)[0] for p in [
        (-1.979085, -11.050059, -6.47255),
        (0.979164, -11.050059, -5.469292),
    ]]
    chamfer(f3_edges, length=F3_SIZE)


solid = f1.part
